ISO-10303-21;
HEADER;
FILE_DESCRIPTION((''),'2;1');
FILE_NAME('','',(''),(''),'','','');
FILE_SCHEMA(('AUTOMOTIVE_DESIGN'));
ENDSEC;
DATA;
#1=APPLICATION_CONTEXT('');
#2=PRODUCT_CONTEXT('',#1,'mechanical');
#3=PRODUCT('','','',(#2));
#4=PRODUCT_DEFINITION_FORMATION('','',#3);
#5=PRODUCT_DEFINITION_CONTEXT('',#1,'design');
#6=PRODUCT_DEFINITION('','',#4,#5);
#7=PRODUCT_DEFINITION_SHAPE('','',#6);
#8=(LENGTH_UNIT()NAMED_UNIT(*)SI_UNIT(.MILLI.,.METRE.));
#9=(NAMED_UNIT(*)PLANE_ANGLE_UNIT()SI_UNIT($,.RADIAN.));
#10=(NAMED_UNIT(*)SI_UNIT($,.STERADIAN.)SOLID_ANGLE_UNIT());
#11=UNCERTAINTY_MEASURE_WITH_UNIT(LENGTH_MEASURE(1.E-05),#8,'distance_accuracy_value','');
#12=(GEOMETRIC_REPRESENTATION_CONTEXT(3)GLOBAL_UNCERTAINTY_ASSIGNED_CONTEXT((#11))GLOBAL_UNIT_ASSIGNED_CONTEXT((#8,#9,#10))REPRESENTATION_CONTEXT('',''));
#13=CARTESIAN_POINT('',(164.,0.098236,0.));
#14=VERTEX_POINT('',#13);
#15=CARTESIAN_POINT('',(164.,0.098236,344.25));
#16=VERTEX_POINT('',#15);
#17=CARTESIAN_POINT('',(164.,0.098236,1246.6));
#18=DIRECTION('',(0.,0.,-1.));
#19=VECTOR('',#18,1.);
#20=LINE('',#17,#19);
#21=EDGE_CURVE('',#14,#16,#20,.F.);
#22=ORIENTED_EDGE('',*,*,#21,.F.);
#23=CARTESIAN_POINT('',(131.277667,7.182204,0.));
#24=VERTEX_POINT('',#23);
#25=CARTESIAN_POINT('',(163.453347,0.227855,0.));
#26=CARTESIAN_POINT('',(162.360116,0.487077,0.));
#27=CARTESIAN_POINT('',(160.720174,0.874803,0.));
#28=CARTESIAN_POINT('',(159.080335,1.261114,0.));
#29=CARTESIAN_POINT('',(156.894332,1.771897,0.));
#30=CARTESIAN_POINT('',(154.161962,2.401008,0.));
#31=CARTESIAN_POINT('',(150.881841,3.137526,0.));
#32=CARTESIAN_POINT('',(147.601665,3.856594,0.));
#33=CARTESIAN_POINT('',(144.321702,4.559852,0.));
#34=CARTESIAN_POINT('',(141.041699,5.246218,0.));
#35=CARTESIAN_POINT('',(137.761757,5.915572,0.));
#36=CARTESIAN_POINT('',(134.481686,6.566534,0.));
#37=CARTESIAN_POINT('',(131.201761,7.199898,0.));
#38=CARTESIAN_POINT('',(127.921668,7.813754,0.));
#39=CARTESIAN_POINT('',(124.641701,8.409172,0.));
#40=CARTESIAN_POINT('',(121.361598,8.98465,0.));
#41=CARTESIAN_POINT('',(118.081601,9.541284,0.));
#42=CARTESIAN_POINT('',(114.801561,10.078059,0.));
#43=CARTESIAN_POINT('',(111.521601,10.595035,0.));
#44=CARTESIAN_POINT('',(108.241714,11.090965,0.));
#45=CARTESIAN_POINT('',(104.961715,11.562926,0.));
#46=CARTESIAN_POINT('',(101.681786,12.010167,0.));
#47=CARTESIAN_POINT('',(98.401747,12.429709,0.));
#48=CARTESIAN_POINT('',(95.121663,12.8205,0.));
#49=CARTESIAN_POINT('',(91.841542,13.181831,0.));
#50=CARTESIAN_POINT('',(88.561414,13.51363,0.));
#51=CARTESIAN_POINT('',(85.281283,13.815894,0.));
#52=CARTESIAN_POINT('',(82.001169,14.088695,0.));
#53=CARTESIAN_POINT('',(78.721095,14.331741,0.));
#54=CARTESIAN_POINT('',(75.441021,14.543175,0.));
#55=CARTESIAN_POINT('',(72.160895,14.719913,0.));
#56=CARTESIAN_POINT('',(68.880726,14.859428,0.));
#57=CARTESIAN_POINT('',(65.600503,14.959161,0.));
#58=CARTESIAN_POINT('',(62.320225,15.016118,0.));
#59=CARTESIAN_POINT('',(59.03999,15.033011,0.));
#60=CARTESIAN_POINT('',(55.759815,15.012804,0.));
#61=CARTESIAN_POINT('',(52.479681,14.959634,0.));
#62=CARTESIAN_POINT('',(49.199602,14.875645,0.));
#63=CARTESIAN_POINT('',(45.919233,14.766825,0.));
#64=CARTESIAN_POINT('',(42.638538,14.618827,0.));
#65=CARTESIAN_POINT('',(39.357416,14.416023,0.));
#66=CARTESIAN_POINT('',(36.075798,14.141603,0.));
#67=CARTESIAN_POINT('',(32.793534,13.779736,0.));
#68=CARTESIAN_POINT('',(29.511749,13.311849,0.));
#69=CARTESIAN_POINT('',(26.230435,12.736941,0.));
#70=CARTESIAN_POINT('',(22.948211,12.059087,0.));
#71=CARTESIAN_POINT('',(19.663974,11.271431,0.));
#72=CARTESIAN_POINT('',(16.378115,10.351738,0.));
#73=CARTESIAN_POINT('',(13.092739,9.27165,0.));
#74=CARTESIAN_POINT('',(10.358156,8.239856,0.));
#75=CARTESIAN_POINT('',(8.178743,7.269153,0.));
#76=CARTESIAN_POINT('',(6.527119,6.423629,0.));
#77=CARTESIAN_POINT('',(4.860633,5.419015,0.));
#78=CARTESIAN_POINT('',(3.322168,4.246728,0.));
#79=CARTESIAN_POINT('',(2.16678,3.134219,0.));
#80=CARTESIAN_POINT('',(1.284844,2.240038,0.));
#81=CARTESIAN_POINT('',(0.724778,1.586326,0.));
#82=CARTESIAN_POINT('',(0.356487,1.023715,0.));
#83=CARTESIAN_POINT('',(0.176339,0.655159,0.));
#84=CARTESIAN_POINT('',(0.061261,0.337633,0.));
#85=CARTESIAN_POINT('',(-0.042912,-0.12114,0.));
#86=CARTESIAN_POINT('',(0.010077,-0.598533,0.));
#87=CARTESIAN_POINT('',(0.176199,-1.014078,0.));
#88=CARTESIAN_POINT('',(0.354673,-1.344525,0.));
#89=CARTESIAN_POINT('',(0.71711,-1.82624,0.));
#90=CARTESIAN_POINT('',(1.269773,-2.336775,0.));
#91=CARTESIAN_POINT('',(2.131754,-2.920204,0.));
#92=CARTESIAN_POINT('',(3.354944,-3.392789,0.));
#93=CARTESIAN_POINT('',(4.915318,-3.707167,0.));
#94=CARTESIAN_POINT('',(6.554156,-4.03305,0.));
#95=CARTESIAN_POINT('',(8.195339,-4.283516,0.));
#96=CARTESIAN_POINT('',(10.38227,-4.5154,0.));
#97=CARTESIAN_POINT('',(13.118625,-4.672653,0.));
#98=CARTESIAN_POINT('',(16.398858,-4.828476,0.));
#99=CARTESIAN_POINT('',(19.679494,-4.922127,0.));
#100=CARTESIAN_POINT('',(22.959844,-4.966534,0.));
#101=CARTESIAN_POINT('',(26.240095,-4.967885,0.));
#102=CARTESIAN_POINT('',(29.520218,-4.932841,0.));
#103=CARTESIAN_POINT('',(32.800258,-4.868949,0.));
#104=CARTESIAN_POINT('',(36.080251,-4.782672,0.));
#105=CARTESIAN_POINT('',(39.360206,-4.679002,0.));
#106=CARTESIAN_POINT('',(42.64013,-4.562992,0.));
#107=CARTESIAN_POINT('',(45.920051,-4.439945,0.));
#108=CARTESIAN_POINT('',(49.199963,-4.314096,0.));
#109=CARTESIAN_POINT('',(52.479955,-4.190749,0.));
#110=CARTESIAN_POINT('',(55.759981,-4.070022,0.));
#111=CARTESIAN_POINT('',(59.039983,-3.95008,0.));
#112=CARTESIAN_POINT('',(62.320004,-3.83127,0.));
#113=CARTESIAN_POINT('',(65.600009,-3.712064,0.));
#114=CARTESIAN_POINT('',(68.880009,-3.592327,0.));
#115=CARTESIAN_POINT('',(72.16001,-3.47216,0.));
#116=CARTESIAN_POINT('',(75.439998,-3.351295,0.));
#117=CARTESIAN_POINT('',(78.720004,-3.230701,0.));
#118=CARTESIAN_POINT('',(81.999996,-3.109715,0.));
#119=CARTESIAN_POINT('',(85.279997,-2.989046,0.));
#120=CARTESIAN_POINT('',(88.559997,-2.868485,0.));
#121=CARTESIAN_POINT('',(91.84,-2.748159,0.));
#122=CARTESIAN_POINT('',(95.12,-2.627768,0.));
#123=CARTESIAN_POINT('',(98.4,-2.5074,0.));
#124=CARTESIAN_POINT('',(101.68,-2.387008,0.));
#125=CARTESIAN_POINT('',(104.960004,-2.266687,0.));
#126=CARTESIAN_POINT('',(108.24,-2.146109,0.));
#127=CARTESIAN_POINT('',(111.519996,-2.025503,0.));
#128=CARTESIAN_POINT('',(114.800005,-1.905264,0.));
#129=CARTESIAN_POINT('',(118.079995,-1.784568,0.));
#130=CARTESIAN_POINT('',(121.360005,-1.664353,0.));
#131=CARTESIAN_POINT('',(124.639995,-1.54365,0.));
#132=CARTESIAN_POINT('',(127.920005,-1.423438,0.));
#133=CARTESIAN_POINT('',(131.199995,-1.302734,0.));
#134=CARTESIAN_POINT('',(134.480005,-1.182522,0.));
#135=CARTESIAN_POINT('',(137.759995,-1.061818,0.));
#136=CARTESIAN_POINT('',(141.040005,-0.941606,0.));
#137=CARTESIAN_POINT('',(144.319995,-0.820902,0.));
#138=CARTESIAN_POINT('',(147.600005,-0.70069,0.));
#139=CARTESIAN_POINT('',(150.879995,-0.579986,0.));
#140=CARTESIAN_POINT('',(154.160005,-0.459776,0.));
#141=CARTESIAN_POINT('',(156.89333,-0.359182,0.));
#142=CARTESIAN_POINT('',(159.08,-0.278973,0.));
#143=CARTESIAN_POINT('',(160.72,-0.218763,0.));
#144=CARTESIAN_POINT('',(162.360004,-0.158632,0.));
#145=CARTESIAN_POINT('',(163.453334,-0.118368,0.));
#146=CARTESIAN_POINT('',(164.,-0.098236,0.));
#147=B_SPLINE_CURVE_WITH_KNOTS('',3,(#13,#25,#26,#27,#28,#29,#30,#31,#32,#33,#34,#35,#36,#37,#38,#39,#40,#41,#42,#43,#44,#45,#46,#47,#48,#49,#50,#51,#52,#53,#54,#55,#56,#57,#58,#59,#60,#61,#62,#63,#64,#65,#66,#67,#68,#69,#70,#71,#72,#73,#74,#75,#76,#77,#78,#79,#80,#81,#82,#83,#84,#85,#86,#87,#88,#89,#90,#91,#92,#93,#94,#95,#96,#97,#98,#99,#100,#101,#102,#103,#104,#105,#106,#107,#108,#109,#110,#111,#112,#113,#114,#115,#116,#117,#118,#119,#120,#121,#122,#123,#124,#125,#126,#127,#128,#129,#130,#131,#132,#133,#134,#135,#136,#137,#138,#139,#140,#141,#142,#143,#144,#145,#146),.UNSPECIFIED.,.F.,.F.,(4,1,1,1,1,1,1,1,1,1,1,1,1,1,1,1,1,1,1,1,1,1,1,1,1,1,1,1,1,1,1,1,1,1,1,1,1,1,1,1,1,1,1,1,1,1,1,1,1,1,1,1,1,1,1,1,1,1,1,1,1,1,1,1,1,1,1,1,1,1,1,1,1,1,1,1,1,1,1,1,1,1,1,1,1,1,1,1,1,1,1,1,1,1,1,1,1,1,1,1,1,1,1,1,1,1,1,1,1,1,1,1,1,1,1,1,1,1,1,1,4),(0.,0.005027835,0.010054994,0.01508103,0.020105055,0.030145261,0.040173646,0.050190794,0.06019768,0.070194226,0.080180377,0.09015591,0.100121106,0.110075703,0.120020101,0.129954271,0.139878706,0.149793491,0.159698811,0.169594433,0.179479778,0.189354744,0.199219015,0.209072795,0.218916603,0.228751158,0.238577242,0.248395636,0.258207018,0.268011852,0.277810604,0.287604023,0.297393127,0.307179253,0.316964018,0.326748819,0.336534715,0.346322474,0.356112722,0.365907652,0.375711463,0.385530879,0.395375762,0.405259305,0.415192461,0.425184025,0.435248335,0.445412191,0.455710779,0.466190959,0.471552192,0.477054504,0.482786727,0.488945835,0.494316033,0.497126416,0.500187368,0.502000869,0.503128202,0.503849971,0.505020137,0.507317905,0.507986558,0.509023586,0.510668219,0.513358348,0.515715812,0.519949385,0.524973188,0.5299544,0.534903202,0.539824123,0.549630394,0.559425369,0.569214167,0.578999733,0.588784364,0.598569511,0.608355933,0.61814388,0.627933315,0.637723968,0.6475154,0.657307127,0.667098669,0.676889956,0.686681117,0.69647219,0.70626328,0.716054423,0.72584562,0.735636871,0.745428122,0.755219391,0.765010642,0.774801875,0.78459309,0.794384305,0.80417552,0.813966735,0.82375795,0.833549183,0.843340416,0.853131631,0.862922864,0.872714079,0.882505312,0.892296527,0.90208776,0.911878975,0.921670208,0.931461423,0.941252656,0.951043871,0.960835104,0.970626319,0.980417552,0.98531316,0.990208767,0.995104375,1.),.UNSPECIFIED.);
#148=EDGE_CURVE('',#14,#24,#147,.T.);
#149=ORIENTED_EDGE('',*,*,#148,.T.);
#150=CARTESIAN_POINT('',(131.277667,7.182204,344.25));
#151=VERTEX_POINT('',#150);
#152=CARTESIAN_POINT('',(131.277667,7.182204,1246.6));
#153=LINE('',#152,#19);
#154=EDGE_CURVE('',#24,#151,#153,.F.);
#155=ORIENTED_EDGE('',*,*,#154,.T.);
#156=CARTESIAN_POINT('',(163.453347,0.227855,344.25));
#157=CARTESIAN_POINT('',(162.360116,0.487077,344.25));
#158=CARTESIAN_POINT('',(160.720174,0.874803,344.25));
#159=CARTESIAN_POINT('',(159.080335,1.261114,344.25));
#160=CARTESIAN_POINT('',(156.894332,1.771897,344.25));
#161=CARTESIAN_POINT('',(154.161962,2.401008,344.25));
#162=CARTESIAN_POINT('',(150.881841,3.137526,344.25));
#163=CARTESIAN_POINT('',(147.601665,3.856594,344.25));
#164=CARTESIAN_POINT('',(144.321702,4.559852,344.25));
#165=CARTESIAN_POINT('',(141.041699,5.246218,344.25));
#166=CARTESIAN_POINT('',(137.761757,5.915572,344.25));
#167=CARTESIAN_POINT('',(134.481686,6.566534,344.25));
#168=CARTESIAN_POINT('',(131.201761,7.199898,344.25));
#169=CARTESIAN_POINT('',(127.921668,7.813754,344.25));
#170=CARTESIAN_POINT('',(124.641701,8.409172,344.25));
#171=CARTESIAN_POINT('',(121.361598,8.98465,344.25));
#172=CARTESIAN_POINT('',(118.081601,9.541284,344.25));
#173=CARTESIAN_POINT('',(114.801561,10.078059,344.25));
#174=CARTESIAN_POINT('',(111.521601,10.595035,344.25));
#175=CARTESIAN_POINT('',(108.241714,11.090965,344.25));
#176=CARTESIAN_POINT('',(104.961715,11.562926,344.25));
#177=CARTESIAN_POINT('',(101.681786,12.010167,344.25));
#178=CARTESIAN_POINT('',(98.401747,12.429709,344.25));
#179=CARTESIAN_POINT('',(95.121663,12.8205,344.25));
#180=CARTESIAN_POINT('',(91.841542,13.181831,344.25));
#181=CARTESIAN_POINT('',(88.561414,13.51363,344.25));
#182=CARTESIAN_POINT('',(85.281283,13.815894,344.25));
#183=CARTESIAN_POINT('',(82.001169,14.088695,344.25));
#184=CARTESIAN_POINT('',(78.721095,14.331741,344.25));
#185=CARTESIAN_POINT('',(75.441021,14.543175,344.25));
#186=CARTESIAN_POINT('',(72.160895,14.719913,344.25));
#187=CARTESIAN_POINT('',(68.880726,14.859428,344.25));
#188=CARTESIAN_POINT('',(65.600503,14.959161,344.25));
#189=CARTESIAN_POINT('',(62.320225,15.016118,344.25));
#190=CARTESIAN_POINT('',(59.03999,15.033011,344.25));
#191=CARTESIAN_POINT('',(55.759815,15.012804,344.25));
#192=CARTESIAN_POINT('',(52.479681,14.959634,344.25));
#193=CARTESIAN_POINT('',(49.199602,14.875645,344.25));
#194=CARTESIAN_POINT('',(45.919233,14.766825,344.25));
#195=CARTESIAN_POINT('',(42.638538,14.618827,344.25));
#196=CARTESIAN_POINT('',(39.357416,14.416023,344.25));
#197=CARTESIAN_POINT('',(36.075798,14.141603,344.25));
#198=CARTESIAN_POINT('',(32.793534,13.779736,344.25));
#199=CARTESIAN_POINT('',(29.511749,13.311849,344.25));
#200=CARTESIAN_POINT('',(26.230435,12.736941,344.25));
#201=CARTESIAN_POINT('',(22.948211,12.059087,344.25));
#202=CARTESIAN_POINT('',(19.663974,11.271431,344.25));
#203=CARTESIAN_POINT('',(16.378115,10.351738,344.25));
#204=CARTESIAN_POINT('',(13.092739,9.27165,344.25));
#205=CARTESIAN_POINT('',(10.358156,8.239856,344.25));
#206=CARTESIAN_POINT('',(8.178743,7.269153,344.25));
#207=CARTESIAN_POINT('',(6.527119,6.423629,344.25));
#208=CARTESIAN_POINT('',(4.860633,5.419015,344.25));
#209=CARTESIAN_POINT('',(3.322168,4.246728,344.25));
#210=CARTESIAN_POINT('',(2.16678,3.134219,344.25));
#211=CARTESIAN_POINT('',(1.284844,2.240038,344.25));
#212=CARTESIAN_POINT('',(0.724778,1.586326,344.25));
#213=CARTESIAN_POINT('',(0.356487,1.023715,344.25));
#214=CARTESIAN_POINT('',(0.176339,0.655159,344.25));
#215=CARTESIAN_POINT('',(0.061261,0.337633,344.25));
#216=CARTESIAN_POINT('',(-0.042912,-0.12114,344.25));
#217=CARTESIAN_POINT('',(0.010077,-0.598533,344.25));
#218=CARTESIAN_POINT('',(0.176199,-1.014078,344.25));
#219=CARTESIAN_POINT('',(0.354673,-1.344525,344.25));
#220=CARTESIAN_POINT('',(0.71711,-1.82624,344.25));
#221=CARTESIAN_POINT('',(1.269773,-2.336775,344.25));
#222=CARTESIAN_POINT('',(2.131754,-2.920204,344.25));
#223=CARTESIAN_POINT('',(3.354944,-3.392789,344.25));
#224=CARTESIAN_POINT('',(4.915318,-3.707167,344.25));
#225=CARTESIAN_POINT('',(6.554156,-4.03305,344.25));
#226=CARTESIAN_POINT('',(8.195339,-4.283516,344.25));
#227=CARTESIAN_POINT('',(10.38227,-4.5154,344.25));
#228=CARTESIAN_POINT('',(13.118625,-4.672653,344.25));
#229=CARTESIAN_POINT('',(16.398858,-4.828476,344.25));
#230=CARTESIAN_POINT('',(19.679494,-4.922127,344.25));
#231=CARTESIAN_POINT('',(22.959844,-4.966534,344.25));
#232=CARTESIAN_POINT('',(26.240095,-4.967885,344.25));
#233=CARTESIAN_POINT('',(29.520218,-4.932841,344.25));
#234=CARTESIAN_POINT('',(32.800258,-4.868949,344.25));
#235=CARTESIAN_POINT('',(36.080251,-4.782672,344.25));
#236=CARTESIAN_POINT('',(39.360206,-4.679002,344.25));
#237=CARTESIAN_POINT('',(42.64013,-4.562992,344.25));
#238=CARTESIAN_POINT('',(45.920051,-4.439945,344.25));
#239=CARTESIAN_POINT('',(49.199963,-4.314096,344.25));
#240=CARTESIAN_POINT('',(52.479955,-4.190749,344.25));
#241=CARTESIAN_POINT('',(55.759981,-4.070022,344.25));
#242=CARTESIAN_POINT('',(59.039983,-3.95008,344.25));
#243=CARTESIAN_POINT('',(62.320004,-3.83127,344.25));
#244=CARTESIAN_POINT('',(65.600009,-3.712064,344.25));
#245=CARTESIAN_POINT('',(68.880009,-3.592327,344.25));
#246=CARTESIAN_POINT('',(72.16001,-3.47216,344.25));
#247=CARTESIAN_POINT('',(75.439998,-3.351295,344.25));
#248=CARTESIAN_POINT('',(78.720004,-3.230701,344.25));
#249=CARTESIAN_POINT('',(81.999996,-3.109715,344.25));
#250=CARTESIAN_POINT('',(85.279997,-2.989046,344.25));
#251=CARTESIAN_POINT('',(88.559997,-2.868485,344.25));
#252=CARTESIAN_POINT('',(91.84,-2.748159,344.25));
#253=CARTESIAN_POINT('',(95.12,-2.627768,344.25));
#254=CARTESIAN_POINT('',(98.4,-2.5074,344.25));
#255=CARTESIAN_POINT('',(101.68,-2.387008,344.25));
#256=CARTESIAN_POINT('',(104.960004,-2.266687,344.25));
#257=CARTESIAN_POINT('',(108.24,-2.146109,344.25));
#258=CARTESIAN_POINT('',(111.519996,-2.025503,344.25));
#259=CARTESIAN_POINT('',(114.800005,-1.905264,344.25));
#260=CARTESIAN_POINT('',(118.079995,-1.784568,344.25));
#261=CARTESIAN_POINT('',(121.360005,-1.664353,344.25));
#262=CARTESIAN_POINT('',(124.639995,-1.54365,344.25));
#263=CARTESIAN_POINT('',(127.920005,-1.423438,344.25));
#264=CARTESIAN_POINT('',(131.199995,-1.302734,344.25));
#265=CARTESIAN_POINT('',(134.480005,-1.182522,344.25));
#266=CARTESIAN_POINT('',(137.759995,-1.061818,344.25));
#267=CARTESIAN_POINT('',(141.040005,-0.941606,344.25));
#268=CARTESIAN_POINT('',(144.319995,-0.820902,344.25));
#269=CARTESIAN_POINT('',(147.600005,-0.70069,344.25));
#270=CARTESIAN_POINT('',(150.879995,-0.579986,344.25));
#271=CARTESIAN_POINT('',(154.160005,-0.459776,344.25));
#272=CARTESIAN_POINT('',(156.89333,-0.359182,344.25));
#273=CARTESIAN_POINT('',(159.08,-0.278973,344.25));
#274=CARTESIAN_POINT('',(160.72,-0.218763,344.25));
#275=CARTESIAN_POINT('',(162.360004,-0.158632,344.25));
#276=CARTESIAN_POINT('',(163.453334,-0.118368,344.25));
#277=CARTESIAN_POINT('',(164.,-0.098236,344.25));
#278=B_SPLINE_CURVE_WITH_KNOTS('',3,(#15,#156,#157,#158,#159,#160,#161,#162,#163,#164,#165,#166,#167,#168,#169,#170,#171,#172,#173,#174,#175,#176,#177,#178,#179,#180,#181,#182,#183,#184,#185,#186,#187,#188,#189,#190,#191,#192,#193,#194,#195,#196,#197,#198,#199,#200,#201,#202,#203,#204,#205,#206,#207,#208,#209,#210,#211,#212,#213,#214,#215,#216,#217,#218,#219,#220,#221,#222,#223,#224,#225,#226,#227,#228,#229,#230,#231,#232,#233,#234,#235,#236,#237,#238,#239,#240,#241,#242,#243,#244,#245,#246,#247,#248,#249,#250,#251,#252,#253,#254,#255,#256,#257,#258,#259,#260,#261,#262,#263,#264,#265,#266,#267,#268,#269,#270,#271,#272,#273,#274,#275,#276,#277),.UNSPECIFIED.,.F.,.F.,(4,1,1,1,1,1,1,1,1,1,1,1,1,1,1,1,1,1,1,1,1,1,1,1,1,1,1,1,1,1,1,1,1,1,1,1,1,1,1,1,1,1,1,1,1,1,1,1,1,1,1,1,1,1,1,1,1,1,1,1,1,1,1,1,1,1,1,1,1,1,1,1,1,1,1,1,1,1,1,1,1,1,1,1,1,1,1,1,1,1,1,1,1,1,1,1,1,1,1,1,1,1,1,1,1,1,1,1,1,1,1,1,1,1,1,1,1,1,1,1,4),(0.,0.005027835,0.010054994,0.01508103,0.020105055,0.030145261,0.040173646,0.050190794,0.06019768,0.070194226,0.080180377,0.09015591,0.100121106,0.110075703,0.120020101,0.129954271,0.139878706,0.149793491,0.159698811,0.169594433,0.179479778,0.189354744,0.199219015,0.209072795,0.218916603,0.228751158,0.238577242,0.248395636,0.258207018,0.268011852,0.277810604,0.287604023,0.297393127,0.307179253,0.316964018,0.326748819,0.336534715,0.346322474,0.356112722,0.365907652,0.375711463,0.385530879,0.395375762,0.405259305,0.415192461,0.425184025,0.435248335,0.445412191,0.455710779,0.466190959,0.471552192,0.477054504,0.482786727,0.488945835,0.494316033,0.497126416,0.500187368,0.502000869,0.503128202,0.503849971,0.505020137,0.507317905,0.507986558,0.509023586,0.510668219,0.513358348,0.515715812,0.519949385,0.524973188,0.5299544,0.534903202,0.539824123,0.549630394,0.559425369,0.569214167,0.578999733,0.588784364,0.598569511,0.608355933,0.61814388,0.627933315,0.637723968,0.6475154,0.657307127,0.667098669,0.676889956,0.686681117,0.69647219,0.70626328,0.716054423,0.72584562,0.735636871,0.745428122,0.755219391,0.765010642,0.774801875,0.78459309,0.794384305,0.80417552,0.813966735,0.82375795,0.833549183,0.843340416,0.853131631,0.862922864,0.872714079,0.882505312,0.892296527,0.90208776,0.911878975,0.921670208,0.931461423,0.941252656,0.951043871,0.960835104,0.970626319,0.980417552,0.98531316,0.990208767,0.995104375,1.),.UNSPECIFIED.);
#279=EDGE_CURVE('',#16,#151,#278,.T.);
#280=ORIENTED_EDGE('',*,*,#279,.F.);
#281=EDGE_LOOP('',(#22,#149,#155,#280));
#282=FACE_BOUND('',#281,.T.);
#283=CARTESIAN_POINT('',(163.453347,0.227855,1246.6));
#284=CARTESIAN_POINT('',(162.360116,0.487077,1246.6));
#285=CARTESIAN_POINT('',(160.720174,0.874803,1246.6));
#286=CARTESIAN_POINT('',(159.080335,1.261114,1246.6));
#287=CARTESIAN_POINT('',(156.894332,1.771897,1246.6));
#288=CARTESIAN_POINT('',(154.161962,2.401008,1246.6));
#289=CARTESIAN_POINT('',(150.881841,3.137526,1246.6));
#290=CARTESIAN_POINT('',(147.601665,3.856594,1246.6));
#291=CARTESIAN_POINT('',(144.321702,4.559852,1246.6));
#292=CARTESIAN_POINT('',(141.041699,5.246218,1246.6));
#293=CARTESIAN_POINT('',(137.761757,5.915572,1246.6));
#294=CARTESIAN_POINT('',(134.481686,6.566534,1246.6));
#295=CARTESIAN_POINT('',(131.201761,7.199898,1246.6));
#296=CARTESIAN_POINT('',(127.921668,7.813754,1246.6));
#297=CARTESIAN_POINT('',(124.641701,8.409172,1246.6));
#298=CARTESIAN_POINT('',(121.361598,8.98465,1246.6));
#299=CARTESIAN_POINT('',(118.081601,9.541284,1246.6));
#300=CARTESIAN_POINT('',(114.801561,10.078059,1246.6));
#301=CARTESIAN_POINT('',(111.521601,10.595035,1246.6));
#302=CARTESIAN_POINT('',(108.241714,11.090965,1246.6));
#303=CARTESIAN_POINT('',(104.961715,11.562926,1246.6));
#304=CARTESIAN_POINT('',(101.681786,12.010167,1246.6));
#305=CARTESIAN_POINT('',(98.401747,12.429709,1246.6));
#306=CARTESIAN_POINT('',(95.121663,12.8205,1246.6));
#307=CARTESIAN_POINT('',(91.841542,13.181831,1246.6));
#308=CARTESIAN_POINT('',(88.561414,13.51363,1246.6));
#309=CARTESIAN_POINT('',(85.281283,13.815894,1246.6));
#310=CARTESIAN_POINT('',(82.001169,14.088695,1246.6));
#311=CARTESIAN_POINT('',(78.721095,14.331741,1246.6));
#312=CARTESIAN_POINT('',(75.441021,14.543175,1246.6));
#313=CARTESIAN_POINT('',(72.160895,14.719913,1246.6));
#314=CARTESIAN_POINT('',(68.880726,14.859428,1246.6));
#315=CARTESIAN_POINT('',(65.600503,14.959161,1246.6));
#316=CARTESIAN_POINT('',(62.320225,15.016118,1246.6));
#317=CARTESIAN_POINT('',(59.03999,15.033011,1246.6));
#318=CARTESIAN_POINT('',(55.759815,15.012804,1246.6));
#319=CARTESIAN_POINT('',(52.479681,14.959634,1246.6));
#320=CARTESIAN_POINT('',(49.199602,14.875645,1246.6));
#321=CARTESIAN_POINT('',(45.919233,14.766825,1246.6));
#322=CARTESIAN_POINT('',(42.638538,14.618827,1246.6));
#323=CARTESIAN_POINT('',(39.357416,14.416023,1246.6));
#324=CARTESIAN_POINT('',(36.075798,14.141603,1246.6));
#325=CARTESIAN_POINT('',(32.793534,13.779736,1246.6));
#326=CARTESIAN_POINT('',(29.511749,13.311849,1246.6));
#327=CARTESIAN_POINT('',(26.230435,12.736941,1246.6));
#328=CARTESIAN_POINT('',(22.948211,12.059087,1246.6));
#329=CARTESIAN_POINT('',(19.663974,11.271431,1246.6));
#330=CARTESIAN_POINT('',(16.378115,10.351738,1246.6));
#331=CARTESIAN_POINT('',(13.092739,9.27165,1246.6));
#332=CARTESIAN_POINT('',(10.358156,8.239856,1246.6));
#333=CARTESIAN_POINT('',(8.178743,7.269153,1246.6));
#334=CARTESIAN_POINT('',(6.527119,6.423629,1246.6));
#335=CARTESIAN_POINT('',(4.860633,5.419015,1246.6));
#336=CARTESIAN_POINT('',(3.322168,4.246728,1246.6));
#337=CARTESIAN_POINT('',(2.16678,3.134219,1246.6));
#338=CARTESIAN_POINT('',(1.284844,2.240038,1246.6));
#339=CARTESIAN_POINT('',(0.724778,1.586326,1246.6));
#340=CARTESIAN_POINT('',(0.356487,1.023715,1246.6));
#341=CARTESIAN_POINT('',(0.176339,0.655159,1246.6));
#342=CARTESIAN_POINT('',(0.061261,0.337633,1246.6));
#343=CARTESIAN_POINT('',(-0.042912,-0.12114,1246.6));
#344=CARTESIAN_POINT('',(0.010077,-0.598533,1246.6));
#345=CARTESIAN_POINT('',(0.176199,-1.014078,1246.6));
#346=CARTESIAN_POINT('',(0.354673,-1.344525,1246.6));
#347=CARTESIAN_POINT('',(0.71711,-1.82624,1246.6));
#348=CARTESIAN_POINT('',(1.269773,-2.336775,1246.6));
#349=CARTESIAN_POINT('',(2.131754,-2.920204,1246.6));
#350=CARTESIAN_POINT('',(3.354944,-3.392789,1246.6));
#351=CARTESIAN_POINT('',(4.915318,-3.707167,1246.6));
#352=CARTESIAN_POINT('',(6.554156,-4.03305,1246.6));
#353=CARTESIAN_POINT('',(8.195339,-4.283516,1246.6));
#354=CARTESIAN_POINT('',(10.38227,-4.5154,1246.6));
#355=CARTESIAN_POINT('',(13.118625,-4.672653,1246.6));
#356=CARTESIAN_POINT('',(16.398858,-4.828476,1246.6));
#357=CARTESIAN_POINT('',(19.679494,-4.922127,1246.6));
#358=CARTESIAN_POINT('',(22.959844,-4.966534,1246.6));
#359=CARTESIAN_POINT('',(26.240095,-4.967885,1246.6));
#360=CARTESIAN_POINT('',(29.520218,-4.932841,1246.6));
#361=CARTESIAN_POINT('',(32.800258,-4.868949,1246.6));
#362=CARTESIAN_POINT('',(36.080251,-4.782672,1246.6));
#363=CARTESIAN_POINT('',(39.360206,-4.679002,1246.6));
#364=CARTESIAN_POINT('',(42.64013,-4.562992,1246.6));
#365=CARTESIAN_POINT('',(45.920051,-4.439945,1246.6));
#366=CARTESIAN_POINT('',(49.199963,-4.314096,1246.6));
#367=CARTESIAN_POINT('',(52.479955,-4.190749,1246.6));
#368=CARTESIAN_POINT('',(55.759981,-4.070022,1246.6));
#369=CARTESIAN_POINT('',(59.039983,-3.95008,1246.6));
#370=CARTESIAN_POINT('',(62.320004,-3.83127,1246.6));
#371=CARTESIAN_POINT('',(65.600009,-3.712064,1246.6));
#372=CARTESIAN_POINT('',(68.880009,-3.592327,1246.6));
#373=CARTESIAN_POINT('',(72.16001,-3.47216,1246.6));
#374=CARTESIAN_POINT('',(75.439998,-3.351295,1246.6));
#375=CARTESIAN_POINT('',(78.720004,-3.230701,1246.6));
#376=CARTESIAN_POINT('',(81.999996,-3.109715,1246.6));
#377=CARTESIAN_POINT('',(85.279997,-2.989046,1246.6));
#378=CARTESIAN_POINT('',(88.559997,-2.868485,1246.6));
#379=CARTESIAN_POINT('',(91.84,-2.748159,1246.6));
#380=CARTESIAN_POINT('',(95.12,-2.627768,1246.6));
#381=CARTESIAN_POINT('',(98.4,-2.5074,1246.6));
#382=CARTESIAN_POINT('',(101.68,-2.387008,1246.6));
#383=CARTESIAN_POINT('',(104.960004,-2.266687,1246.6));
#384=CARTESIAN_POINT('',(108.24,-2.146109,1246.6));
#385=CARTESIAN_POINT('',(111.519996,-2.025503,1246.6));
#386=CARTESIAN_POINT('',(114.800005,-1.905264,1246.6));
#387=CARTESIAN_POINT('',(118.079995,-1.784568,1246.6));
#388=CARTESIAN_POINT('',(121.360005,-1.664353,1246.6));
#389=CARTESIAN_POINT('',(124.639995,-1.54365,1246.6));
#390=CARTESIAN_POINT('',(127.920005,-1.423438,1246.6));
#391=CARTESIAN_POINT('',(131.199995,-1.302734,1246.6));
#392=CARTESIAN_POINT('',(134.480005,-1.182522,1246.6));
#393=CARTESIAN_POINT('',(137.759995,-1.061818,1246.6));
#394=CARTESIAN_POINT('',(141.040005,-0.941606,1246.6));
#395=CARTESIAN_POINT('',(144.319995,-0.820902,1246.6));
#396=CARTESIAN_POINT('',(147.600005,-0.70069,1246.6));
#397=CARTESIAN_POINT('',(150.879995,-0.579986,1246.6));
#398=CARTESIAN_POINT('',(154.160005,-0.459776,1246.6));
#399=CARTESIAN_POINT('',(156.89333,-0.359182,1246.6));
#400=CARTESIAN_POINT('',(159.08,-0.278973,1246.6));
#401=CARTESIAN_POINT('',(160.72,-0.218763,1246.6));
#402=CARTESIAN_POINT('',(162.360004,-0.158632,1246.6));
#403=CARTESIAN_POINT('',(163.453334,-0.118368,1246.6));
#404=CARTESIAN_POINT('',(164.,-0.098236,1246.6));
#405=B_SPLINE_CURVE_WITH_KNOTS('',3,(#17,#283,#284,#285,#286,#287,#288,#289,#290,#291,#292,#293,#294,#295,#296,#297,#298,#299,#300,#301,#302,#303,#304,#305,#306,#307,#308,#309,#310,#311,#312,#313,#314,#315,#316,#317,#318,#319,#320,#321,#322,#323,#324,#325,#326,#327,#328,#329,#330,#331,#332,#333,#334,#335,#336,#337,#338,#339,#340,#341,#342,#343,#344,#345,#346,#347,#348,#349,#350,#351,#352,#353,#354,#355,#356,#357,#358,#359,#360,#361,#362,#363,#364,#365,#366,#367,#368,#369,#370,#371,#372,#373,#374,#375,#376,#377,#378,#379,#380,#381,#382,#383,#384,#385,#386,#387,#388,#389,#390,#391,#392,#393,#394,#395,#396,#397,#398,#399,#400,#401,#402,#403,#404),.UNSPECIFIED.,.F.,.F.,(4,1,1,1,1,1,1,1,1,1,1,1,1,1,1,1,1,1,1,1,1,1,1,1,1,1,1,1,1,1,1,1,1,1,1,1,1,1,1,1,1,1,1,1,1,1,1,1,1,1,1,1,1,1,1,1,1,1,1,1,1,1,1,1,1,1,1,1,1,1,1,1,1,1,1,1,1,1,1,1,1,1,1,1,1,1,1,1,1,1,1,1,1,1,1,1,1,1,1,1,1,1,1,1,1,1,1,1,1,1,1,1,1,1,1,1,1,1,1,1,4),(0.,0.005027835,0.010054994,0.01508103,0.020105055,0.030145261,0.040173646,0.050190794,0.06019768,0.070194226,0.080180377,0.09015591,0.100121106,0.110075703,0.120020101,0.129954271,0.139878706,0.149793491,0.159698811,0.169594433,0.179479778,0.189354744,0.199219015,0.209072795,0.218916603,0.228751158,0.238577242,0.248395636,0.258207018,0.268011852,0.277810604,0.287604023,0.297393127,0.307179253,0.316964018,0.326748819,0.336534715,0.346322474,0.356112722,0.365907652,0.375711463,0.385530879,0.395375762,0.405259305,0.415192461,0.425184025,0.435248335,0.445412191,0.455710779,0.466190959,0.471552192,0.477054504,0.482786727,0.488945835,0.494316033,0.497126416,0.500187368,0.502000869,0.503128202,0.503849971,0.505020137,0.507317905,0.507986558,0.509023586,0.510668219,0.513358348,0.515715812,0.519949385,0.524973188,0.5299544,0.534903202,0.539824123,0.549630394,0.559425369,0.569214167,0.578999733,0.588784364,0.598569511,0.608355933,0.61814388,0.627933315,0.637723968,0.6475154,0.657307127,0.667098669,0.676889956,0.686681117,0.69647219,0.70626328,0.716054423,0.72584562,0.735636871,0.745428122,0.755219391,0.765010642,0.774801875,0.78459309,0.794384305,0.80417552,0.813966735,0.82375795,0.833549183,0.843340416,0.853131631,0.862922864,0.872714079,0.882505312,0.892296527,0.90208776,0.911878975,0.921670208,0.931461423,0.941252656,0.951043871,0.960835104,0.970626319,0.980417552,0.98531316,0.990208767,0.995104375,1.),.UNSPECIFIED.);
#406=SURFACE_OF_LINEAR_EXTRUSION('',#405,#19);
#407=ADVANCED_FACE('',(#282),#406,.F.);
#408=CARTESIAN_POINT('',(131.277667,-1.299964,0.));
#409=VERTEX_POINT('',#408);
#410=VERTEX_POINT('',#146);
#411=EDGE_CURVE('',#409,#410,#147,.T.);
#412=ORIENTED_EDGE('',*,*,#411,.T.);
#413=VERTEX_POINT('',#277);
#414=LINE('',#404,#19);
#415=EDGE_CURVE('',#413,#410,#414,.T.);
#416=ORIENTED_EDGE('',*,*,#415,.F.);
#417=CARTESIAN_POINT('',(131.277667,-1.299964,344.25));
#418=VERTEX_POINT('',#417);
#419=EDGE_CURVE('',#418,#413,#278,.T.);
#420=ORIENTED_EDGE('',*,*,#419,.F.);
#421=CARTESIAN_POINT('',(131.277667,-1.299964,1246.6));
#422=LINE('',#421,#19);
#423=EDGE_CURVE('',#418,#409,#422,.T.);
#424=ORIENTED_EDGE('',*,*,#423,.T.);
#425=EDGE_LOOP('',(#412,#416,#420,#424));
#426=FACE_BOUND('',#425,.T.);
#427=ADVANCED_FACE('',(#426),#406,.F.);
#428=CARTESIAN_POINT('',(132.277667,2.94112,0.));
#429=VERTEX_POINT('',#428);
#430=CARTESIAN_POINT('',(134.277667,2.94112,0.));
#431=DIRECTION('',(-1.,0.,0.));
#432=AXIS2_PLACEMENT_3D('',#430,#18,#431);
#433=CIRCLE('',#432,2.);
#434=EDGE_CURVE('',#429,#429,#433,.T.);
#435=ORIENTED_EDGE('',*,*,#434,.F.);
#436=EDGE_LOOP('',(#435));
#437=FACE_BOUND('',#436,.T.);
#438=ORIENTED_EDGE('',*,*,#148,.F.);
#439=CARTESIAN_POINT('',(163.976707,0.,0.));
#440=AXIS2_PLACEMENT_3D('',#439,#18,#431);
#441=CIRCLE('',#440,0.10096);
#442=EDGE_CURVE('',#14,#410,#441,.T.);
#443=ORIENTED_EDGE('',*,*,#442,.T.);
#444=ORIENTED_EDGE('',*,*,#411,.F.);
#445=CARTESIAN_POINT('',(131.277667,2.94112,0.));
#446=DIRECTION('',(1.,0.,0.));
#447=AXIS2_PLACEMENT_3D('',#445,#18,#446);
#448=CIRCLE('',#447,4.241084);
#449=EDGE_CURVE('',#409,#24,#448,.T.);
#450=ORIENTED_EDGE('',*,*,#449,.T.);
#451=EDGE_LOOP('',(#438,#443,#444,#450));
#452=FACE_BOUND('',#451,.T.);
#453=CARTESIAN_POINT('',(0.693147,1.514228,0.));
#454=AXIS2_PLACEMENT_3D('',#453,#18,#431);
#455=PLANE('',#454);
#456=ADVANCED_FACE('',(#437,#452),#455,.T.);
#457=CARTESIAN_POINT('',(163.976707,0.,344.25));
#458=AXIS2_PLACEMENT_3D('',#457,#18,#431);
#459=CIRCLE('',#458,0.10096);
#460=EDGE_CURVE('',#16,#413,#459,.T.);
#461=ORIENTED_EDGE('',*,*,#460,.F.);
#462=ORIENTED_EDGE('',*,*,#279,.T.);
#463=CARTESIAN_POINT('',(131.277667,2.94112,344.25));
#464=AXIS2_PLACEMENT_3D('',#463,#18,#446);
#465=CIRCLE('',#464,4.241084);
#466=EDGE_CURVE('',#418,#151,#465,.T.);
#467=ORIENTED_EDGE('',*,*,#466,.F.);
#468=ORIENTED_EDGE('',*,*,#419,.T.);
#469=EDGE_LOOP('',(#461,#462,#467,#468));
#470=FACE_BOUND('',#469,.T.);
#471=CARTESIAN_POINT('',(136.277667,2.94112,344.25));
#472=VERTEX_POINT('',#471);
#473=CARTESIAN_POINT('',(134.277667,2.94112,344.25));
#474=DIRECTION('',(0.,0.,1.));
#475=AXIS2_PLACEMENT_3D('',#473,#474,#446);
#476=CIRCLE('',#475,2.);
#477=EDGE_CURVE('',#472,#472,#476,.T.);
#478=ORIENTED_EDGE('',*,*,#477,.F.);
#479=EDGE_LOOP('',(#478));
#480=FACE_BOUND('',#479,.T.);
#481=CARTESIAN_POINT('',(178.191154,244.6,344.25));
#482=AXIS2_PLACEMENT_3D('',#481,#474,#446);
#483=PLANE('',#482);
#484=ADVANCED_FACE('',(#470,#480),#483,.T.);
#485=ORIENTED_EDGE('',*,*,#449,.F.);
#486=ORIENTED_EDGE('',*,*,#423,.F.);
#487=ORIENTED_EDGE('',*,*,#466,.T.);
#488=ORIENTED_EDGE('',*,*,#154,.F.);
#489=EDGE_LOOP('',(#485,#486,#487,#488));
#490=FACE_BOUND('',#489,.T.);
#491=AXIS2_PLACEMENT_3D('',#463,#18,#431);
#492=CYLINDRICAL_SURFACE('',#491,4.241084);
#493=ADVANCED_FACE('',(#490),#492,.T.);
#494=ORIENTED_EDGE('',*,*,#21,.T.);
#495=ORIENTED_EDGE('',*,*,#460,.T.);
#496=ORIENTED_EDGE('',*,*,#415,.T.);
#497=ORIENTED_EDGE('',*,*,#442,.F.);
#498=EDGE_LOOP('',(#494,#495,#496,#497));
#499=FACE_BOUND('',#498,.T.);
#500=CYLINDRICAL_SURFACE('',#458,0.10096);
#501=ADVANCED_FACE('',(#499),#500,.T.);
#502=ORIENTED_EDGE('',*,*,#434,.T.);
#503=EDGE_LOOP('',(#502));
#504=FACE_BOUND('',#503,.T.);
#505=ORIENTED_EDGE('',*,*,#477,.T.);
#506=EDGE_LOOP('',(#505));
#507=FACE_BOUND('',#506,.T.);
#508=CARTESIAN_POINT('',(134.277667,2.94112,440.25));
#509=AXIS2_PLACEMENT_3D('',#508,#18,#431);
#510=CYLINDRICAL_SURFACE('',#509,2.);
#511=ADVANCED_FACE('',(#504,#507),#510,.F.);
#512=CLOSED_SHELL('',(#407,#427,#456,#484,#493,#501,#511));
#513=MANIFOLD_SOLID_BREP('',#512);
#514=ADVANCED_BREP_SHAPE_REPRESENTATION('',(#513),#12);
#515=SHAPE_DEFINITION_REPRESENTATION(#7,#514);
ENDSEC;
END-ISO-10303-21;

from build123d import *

# Parameters (mm, degrees)
BOSS_EXTRUDE1_DEPTH     = 1246.6
SKETCH3_W               = 131.331770321
SKETCH3_H               = 32.627886165
CUT_EXTRUDE1_DEPTH      = 1246.6
SKETCH4_OUTSIDE_W       = 284.212
SKETCH4_OUTSIDE_H       = 1498.012
SKETCH4_OUTSIDE_W_2     = 101.260819251
SKETCH4_OUTSIDE_H_2     = 902.35
CUT_EXTRUDE2_DEPTH      = 1246.6
CUT_EXTRUDE2_DEPTH_BACK = 1246.6
SKETCH6_W               = 192.425220297
SKETCH6_H               = 656.595980709
CUT_EXTRUDE4_DEPTH      = 244.6
CUT_EXTRUDE4_DEPTH_BACK = 244.6
BOSS_EXTRUDE2_DEPTH     = 344.25
SKETCH8_R               = 2
CUT_EXTRUDE5_DEPTH      = 440.25
BOSS_EXTRUDE3_DEPTH     = 344.25


with BuildPart() as part:
    # Sketch2 → Boss-Extrude1 (new body)
    with BuildSketch(Plane.XY):
        with BuildLine():
            ThreePointArc((164, 0.098236), (164.077666621, 0), (164, -0.098236))
            add(Edge.make_bspline(
                [(164, 0.098236), (163.453347387, 0.22785535), (162.360115672, 0.487076621), (160.720174081, 0.874802791), (159.0803353, 1.261113511), (156.894331896, 1.771896592), (154.161962419, 2.401008024), (150.881840501, 3.13752569), (147.601664878, 3.8565945), (144.321701501, 4.559852267), (141.041699291, 5.246218097), (137.76175682, 5.915571977), (134.481686048, 6.566534279), (131.201761117, 7.199897784), (127.921667908, 7.813753566), (124.641700877, 8.409171836), (121.361597548, 8.984649762), (118.081600921, 9.541284352), (114.80156054, 10.07805903), (111.521600724, 10.59503458), (108.241713881, 11.090964684), (104.961715387, 11.562926189), (101.681785545, 12.010166942), (98.401746925, 12.429708933), (95.121663003, 12.820499879), (91.84154242, 13.181831195), (88.56141358, 13.513629691), (85.281283013, 13.815893693), (82.001169218, 14.088694548), (78.721094583, 14.331740841), (75.441021202, 14.543174526), (72.160894943, 14.719912929), (68.880725837, 14.859427859), (65.600502918, 14.959161187), (62.320224888, 15.016118491), (59.039990485, 15.033011113), (55.759814901, 15.012803506), (52.479681447, 14.959633887), (49.199602023, 14.875645385), (45.919233047, 14.766824698), (42.638537604, 14.618826672), (39.35741618, 14.416022628), (36.0757975, 14.141603361), (32.793533639, 13.779735578), (29.511749086, 13.311848817), (26.230434788, 12.73694115), (22.948210639, 12.059086716), (19.663974378, 11.271431309), (16.378115428, 10.351737997), (13.092739035, 9.271649911), (10.358155698, 8.239855905), (8.178743414, 7.269152702), (6.527119207, 6.423628718), (4.860632605, 5.419014553), (3.322167842, 4.2467282), (2.166779904, 3.134218531), (1.284843627, 2.240038349), (0.724778476, 1.586326252), (0.356487216, 1.023714566), (0.176338644, 0.655158851), (0.06126114, 0.337632955), (-0.042912187, -0.121140297), (0.010077209, -0.598533271), (0.176198668, -1.014077877), (0.354673422, -1.344525075), (0.71711018, -1.826240306), (1.269772602, -2.336774849), (2.131753938, -2.920204414), (3.354944478, -3.392789107), (4.915318485, -3.707166706), (6.554156477, -4.033049695), (8.195338778, -4.283515671), (10.382269573, -4.515400478), (13.118624925, -4.672653042), (16.398857973, -4.828475576), (19.67949402, -4.922126922), (22.959843945, -4.966534444), (26.240094921, -4.967885333), (29.52021808, -4.932840584), (32.80025799, -4.868949356), (36.080251417, -4.782671539), (39.360205991, -4.679002025), (42.640130231, -4.562992137), (45.920050783, -4.439945198), (49.199963424, -4.314095857), (52.479955348, -4.190748674), (55.759981202, -4.070022155), (59.039983191, -3.950079723), (62.320004382, -3.831269928), (65.600009186, -3.712064205), (68.88000861, -3.592327441), (72.160010289, -3.472160061), (75.439998328, -3.351294551), (78.720004422, -3.230701442), (81.999996044, -3.109715239), (85.279997332, -2.98904612), (88.559996558, -2.868484945), (91.840000392, -2.748158688), (95.119999867, -2.627768375), (98.40000014, -2.507399813), (101.679999573, -2.387008373), (104.960003573, -2.266686622), (108.24000017, -2.146108622), (111.519995748, -2.025502888), (114.800004809, -1.905264268), (118.079995042, -1.784567671), (121.360004998, -1.664353418), (124.639994992, -1.543650291), (127.920005011, -1.423437787), (131.199994988, -1.302734192), (134.480005012, -1.182521815), (137.759994988, -1.061818182), (141.040005013, -0.941605825), (144.319994986, -0.820902151), (147.600005017, -0.70068994), (150.879994971, -0.579985719), (154.160005076, -0.45977555), (156.893330138, -0.359182339), (159.080000325, -0.278972842), (160.719999512, -0.218762724), (162.360003633, -0.15863219), (163.453333876, -0.118368088), (164, -0.098236)],
                knots=[0, 0, 0, 0, 0.005027835, 0.010054994, 0.01508103, 0.020105055, 0.030145261, 0.040173646, 0.050190794, 0.06019768, 0.070194226, 0.080180377, 0.09015591, 0.100121106, 0.110075703, 0.120020101, 0.129954271, 0.139878706, 0.149793491, 0.159698811, 0.169594433, 0.179479778, 0.189354744, 0.199219015, 0.209072795, 0.218916603, 0.228751158, 0.238577242, 0.248395636, 0.258207018, 0.268011852, 0.277810604, 0.287604023, 0.297393127, 0.307179253, 0.316964018, 0.326748819, 0.336534715, 0.346322474, 0.356112722, 0.365907652, 0.375711463, 0.385530879, 0.395375762, 0.405259305, 0.415192461, 0.425184025, 0.435248335, 0.445412191, 0.455710779, 0.466190959, 0.471552192, 0.477054504, 0.482786727, 0.488945835, 0.494316033, 0.497126416, 0.500187368, 0.502000869, 0.503128202, 0.503849971, 0.505020137, 0.507317905, 0.507986558, 0.509023586, 0.510668219, 0.513358348, 0.515715812, 0.519949385, 0.524973188, 0.5299544, 0.534903202, 0.539824123, 0.549630394, 0.559425369, 0.569214167, 0.578999733, 0.588784364, 0.598569511, 0.608355933, 0.61814388, 0.627933315, 0.637723968, 0.6475154, 0.657307127, 0.667098669, 0.676889956, 0.686681117, 0.69647219, 0.70626328, 0.716054423, 0.72584562, 0.735636871, 0.745428122, 0.755219391, 0.765010642, 0.774801875, 0.78459309, 0.794384305, 0.80417552, 0.813966735, 0.82375795, 0.833549183, 0.843340416, 0.853131631, 0.862922864, 0.872714079, 0.882505312, 0.892296527, 0.90208776, 0.911878975, 0.921670208, 0.931461423, 0.941252656, 0.951043871, 0.960835104, 0.970626319, 0.980417552, 0.98531316, 0.990208767, 0.995104375, 1, 1, 1, 1], degree=3))
        make_face()
    extrude(amount=BOSS_EXTRUDE1_DEPTH)

    # Sketch3 → Cut-Extrude1 (cut)
    with BuildSketch(Plane.XY.offset(1246.6)):
        with Locations((65.61178146, 9.808584216)):
            Rectangle(SKETCH3_W, SKETCH3_H)
    extrude(amount=-CUT_EXTRUDE1_DEPTH, mode=Mode.SUBTRACT)

    # Sketch4 outside → Cut-Extrude2 (cut, two sides)
    with BuildSketch(Plane(origin=(0, 0, 0), x_dir=(1, 0, 0), z_dir=(0, 1, 0))) as cut_extrude2_sk:
        with Locations((147.678, -623.3)):
            Rectangle(SKETCH4_OUTSIDE_W, SKETCH4_OUTSIDE_H)
        with Locations((113.369590375, -451.175)):
            Rectangle(SKETCH4_OUTSIDE_W_2, SKETCH4_OUTSIDE_H_2, mode=Mode.SUBTRACT)
    extrude(amount=CUT_EXTRUDE2_DEPTH, mode=Mode.SUBTRACT)
    extrude(cut_extrude2_sk.sketch, amount=-CUT_EXTRUDE2_DEPTH_BACK, mode=Mode.SUBTRACT)

    # Sketch6 → Cut-Extrude4 (cut, two sides)
    with BuildSketch(Plane(origin=(0, 0, 0), x_dir=(1, 0, 0), z_dir=(0, 1, 0))) as cut_extrude4_sk:
        with Locations((81.978543906, -672.547990355)):
            Rectangle(SKETCH6_W, SKETCH6_H)
    extrude(amount=CUT_EXTRUDE4_DEPTH, mode=Mode.SUBTRACT)
    extrude(cut_extrude4_sk.sketch, amount=-CUT_EXTRUDE4_DEPTH_BACK, mode=Mode.SUBTRACT)

    # Sketch7 → Boss-Extrude2 (add)
    with BuildSketch(Plane(origin=(0, 0, 0), x_dir=(-1, 0, 0), z_dir=(0, 0, -1))):
        with BuildLine():
            Line((-164, 0.098236), (-164, -0.098236))
            add(Edge.make_bspline(
                [(-164, -0.098236), (-163.453333876, -0.118368088), (-162.360003633, -0.15863219), (-160.719999512, -0.218762724), (-159.080000325, -0.278972842), (-156.893330138, -0.359182339), (-154.160005076, -0.45977555), (-150.879994971, -0.579985719), (-147.600005017, -0.70068994), (-144.319994986, -0.820902151), (-141.040005013, -0.941605825), (-137.759994988, -1.061818182), (-134.505893813, -1.181569107), (-132.345110216, -1.260765669), (-131.277666621, -1.299963829)],
                knots=[0.902319605, 0.902319605, 0.902319605, 0.902319605, 0.90721523, 0.912110838, 0.917006445, 0.921902053, 0.931693286, 0.941484501, 0.951275734, 0.961066949, 0.970858182, 0.980649397, 0.99044063, 1, 1, 1, 1], degree=3))
            ThreePointArc((-131.277666621, -1.299963829), (-127.036582482, 2.94112032), (-131.27766664, 7.182204449))
            add(Edge.make_bspline(
                [(-131.27766664, 7.182204449), (-132.345665951, 6.979004635), (-134.50753497, 6.561404307), (-137.76175682, 5.915571977), (-141.041699291, 5.246218097), (-144.321701501, 4.559852267), (-147.601664878, 3.8565945), (-150.881840501, 3.13752569), (-154.161962419, 2.401008024), (-156.894331896, 1.771896592), (-159.0803353, 1.261113511), (-160.720174081, 0.874802791), (-162.360115672, 0.487076621), (-163.453347387, 0.22785535), (-164, 0.098236)],
                knots=[0, 0, 0, 0, 0.009729354, 0.019704887, 0.029691038, 0.039687584, 0.04969447, 0.059711618, 0.069740003, 0.079780209, 0.084804234, 0.08983027, 0.094857429, 0.099885264, 0.099885264, 0.099885264, 0.099885264], degree=3))
        make_face()
    extrude(amount=-BOSS_EXTRUDE2_DEPTH)

    # Sketch8 → Cut-Extrude5 (cut)
    with BuildSketch(Plane(origin=(0, 0, 0), x_dir=(-1, 0, 0), z_dir=(0, 0, -1))):
        with Locations((-134.27766664, 2.94112031)):
            Circle(SKETCH8_R)
    extrude(amount=-CUT_EXTRUDE5_DEPTH, mode=Mode.SUBTRACT)

    # Sketch9 → Boss-Extrude3 (add)
    with BuildSketch(Plane(origin=(0, 0, 0), x_dir=(-1, 0, 0), z_dir=(0, 0, -1))):
        with BuildLine():
            Line((-164, 0.098236), (-164, -0.098236))
            ThreePointArc((-164, -0.098236), (-164.077666649, 0), (-164, 0.098236))
        make_face()
    extrude(amount=-BOSS_EXTRUDE3_DEPTH)


solid = part.part
